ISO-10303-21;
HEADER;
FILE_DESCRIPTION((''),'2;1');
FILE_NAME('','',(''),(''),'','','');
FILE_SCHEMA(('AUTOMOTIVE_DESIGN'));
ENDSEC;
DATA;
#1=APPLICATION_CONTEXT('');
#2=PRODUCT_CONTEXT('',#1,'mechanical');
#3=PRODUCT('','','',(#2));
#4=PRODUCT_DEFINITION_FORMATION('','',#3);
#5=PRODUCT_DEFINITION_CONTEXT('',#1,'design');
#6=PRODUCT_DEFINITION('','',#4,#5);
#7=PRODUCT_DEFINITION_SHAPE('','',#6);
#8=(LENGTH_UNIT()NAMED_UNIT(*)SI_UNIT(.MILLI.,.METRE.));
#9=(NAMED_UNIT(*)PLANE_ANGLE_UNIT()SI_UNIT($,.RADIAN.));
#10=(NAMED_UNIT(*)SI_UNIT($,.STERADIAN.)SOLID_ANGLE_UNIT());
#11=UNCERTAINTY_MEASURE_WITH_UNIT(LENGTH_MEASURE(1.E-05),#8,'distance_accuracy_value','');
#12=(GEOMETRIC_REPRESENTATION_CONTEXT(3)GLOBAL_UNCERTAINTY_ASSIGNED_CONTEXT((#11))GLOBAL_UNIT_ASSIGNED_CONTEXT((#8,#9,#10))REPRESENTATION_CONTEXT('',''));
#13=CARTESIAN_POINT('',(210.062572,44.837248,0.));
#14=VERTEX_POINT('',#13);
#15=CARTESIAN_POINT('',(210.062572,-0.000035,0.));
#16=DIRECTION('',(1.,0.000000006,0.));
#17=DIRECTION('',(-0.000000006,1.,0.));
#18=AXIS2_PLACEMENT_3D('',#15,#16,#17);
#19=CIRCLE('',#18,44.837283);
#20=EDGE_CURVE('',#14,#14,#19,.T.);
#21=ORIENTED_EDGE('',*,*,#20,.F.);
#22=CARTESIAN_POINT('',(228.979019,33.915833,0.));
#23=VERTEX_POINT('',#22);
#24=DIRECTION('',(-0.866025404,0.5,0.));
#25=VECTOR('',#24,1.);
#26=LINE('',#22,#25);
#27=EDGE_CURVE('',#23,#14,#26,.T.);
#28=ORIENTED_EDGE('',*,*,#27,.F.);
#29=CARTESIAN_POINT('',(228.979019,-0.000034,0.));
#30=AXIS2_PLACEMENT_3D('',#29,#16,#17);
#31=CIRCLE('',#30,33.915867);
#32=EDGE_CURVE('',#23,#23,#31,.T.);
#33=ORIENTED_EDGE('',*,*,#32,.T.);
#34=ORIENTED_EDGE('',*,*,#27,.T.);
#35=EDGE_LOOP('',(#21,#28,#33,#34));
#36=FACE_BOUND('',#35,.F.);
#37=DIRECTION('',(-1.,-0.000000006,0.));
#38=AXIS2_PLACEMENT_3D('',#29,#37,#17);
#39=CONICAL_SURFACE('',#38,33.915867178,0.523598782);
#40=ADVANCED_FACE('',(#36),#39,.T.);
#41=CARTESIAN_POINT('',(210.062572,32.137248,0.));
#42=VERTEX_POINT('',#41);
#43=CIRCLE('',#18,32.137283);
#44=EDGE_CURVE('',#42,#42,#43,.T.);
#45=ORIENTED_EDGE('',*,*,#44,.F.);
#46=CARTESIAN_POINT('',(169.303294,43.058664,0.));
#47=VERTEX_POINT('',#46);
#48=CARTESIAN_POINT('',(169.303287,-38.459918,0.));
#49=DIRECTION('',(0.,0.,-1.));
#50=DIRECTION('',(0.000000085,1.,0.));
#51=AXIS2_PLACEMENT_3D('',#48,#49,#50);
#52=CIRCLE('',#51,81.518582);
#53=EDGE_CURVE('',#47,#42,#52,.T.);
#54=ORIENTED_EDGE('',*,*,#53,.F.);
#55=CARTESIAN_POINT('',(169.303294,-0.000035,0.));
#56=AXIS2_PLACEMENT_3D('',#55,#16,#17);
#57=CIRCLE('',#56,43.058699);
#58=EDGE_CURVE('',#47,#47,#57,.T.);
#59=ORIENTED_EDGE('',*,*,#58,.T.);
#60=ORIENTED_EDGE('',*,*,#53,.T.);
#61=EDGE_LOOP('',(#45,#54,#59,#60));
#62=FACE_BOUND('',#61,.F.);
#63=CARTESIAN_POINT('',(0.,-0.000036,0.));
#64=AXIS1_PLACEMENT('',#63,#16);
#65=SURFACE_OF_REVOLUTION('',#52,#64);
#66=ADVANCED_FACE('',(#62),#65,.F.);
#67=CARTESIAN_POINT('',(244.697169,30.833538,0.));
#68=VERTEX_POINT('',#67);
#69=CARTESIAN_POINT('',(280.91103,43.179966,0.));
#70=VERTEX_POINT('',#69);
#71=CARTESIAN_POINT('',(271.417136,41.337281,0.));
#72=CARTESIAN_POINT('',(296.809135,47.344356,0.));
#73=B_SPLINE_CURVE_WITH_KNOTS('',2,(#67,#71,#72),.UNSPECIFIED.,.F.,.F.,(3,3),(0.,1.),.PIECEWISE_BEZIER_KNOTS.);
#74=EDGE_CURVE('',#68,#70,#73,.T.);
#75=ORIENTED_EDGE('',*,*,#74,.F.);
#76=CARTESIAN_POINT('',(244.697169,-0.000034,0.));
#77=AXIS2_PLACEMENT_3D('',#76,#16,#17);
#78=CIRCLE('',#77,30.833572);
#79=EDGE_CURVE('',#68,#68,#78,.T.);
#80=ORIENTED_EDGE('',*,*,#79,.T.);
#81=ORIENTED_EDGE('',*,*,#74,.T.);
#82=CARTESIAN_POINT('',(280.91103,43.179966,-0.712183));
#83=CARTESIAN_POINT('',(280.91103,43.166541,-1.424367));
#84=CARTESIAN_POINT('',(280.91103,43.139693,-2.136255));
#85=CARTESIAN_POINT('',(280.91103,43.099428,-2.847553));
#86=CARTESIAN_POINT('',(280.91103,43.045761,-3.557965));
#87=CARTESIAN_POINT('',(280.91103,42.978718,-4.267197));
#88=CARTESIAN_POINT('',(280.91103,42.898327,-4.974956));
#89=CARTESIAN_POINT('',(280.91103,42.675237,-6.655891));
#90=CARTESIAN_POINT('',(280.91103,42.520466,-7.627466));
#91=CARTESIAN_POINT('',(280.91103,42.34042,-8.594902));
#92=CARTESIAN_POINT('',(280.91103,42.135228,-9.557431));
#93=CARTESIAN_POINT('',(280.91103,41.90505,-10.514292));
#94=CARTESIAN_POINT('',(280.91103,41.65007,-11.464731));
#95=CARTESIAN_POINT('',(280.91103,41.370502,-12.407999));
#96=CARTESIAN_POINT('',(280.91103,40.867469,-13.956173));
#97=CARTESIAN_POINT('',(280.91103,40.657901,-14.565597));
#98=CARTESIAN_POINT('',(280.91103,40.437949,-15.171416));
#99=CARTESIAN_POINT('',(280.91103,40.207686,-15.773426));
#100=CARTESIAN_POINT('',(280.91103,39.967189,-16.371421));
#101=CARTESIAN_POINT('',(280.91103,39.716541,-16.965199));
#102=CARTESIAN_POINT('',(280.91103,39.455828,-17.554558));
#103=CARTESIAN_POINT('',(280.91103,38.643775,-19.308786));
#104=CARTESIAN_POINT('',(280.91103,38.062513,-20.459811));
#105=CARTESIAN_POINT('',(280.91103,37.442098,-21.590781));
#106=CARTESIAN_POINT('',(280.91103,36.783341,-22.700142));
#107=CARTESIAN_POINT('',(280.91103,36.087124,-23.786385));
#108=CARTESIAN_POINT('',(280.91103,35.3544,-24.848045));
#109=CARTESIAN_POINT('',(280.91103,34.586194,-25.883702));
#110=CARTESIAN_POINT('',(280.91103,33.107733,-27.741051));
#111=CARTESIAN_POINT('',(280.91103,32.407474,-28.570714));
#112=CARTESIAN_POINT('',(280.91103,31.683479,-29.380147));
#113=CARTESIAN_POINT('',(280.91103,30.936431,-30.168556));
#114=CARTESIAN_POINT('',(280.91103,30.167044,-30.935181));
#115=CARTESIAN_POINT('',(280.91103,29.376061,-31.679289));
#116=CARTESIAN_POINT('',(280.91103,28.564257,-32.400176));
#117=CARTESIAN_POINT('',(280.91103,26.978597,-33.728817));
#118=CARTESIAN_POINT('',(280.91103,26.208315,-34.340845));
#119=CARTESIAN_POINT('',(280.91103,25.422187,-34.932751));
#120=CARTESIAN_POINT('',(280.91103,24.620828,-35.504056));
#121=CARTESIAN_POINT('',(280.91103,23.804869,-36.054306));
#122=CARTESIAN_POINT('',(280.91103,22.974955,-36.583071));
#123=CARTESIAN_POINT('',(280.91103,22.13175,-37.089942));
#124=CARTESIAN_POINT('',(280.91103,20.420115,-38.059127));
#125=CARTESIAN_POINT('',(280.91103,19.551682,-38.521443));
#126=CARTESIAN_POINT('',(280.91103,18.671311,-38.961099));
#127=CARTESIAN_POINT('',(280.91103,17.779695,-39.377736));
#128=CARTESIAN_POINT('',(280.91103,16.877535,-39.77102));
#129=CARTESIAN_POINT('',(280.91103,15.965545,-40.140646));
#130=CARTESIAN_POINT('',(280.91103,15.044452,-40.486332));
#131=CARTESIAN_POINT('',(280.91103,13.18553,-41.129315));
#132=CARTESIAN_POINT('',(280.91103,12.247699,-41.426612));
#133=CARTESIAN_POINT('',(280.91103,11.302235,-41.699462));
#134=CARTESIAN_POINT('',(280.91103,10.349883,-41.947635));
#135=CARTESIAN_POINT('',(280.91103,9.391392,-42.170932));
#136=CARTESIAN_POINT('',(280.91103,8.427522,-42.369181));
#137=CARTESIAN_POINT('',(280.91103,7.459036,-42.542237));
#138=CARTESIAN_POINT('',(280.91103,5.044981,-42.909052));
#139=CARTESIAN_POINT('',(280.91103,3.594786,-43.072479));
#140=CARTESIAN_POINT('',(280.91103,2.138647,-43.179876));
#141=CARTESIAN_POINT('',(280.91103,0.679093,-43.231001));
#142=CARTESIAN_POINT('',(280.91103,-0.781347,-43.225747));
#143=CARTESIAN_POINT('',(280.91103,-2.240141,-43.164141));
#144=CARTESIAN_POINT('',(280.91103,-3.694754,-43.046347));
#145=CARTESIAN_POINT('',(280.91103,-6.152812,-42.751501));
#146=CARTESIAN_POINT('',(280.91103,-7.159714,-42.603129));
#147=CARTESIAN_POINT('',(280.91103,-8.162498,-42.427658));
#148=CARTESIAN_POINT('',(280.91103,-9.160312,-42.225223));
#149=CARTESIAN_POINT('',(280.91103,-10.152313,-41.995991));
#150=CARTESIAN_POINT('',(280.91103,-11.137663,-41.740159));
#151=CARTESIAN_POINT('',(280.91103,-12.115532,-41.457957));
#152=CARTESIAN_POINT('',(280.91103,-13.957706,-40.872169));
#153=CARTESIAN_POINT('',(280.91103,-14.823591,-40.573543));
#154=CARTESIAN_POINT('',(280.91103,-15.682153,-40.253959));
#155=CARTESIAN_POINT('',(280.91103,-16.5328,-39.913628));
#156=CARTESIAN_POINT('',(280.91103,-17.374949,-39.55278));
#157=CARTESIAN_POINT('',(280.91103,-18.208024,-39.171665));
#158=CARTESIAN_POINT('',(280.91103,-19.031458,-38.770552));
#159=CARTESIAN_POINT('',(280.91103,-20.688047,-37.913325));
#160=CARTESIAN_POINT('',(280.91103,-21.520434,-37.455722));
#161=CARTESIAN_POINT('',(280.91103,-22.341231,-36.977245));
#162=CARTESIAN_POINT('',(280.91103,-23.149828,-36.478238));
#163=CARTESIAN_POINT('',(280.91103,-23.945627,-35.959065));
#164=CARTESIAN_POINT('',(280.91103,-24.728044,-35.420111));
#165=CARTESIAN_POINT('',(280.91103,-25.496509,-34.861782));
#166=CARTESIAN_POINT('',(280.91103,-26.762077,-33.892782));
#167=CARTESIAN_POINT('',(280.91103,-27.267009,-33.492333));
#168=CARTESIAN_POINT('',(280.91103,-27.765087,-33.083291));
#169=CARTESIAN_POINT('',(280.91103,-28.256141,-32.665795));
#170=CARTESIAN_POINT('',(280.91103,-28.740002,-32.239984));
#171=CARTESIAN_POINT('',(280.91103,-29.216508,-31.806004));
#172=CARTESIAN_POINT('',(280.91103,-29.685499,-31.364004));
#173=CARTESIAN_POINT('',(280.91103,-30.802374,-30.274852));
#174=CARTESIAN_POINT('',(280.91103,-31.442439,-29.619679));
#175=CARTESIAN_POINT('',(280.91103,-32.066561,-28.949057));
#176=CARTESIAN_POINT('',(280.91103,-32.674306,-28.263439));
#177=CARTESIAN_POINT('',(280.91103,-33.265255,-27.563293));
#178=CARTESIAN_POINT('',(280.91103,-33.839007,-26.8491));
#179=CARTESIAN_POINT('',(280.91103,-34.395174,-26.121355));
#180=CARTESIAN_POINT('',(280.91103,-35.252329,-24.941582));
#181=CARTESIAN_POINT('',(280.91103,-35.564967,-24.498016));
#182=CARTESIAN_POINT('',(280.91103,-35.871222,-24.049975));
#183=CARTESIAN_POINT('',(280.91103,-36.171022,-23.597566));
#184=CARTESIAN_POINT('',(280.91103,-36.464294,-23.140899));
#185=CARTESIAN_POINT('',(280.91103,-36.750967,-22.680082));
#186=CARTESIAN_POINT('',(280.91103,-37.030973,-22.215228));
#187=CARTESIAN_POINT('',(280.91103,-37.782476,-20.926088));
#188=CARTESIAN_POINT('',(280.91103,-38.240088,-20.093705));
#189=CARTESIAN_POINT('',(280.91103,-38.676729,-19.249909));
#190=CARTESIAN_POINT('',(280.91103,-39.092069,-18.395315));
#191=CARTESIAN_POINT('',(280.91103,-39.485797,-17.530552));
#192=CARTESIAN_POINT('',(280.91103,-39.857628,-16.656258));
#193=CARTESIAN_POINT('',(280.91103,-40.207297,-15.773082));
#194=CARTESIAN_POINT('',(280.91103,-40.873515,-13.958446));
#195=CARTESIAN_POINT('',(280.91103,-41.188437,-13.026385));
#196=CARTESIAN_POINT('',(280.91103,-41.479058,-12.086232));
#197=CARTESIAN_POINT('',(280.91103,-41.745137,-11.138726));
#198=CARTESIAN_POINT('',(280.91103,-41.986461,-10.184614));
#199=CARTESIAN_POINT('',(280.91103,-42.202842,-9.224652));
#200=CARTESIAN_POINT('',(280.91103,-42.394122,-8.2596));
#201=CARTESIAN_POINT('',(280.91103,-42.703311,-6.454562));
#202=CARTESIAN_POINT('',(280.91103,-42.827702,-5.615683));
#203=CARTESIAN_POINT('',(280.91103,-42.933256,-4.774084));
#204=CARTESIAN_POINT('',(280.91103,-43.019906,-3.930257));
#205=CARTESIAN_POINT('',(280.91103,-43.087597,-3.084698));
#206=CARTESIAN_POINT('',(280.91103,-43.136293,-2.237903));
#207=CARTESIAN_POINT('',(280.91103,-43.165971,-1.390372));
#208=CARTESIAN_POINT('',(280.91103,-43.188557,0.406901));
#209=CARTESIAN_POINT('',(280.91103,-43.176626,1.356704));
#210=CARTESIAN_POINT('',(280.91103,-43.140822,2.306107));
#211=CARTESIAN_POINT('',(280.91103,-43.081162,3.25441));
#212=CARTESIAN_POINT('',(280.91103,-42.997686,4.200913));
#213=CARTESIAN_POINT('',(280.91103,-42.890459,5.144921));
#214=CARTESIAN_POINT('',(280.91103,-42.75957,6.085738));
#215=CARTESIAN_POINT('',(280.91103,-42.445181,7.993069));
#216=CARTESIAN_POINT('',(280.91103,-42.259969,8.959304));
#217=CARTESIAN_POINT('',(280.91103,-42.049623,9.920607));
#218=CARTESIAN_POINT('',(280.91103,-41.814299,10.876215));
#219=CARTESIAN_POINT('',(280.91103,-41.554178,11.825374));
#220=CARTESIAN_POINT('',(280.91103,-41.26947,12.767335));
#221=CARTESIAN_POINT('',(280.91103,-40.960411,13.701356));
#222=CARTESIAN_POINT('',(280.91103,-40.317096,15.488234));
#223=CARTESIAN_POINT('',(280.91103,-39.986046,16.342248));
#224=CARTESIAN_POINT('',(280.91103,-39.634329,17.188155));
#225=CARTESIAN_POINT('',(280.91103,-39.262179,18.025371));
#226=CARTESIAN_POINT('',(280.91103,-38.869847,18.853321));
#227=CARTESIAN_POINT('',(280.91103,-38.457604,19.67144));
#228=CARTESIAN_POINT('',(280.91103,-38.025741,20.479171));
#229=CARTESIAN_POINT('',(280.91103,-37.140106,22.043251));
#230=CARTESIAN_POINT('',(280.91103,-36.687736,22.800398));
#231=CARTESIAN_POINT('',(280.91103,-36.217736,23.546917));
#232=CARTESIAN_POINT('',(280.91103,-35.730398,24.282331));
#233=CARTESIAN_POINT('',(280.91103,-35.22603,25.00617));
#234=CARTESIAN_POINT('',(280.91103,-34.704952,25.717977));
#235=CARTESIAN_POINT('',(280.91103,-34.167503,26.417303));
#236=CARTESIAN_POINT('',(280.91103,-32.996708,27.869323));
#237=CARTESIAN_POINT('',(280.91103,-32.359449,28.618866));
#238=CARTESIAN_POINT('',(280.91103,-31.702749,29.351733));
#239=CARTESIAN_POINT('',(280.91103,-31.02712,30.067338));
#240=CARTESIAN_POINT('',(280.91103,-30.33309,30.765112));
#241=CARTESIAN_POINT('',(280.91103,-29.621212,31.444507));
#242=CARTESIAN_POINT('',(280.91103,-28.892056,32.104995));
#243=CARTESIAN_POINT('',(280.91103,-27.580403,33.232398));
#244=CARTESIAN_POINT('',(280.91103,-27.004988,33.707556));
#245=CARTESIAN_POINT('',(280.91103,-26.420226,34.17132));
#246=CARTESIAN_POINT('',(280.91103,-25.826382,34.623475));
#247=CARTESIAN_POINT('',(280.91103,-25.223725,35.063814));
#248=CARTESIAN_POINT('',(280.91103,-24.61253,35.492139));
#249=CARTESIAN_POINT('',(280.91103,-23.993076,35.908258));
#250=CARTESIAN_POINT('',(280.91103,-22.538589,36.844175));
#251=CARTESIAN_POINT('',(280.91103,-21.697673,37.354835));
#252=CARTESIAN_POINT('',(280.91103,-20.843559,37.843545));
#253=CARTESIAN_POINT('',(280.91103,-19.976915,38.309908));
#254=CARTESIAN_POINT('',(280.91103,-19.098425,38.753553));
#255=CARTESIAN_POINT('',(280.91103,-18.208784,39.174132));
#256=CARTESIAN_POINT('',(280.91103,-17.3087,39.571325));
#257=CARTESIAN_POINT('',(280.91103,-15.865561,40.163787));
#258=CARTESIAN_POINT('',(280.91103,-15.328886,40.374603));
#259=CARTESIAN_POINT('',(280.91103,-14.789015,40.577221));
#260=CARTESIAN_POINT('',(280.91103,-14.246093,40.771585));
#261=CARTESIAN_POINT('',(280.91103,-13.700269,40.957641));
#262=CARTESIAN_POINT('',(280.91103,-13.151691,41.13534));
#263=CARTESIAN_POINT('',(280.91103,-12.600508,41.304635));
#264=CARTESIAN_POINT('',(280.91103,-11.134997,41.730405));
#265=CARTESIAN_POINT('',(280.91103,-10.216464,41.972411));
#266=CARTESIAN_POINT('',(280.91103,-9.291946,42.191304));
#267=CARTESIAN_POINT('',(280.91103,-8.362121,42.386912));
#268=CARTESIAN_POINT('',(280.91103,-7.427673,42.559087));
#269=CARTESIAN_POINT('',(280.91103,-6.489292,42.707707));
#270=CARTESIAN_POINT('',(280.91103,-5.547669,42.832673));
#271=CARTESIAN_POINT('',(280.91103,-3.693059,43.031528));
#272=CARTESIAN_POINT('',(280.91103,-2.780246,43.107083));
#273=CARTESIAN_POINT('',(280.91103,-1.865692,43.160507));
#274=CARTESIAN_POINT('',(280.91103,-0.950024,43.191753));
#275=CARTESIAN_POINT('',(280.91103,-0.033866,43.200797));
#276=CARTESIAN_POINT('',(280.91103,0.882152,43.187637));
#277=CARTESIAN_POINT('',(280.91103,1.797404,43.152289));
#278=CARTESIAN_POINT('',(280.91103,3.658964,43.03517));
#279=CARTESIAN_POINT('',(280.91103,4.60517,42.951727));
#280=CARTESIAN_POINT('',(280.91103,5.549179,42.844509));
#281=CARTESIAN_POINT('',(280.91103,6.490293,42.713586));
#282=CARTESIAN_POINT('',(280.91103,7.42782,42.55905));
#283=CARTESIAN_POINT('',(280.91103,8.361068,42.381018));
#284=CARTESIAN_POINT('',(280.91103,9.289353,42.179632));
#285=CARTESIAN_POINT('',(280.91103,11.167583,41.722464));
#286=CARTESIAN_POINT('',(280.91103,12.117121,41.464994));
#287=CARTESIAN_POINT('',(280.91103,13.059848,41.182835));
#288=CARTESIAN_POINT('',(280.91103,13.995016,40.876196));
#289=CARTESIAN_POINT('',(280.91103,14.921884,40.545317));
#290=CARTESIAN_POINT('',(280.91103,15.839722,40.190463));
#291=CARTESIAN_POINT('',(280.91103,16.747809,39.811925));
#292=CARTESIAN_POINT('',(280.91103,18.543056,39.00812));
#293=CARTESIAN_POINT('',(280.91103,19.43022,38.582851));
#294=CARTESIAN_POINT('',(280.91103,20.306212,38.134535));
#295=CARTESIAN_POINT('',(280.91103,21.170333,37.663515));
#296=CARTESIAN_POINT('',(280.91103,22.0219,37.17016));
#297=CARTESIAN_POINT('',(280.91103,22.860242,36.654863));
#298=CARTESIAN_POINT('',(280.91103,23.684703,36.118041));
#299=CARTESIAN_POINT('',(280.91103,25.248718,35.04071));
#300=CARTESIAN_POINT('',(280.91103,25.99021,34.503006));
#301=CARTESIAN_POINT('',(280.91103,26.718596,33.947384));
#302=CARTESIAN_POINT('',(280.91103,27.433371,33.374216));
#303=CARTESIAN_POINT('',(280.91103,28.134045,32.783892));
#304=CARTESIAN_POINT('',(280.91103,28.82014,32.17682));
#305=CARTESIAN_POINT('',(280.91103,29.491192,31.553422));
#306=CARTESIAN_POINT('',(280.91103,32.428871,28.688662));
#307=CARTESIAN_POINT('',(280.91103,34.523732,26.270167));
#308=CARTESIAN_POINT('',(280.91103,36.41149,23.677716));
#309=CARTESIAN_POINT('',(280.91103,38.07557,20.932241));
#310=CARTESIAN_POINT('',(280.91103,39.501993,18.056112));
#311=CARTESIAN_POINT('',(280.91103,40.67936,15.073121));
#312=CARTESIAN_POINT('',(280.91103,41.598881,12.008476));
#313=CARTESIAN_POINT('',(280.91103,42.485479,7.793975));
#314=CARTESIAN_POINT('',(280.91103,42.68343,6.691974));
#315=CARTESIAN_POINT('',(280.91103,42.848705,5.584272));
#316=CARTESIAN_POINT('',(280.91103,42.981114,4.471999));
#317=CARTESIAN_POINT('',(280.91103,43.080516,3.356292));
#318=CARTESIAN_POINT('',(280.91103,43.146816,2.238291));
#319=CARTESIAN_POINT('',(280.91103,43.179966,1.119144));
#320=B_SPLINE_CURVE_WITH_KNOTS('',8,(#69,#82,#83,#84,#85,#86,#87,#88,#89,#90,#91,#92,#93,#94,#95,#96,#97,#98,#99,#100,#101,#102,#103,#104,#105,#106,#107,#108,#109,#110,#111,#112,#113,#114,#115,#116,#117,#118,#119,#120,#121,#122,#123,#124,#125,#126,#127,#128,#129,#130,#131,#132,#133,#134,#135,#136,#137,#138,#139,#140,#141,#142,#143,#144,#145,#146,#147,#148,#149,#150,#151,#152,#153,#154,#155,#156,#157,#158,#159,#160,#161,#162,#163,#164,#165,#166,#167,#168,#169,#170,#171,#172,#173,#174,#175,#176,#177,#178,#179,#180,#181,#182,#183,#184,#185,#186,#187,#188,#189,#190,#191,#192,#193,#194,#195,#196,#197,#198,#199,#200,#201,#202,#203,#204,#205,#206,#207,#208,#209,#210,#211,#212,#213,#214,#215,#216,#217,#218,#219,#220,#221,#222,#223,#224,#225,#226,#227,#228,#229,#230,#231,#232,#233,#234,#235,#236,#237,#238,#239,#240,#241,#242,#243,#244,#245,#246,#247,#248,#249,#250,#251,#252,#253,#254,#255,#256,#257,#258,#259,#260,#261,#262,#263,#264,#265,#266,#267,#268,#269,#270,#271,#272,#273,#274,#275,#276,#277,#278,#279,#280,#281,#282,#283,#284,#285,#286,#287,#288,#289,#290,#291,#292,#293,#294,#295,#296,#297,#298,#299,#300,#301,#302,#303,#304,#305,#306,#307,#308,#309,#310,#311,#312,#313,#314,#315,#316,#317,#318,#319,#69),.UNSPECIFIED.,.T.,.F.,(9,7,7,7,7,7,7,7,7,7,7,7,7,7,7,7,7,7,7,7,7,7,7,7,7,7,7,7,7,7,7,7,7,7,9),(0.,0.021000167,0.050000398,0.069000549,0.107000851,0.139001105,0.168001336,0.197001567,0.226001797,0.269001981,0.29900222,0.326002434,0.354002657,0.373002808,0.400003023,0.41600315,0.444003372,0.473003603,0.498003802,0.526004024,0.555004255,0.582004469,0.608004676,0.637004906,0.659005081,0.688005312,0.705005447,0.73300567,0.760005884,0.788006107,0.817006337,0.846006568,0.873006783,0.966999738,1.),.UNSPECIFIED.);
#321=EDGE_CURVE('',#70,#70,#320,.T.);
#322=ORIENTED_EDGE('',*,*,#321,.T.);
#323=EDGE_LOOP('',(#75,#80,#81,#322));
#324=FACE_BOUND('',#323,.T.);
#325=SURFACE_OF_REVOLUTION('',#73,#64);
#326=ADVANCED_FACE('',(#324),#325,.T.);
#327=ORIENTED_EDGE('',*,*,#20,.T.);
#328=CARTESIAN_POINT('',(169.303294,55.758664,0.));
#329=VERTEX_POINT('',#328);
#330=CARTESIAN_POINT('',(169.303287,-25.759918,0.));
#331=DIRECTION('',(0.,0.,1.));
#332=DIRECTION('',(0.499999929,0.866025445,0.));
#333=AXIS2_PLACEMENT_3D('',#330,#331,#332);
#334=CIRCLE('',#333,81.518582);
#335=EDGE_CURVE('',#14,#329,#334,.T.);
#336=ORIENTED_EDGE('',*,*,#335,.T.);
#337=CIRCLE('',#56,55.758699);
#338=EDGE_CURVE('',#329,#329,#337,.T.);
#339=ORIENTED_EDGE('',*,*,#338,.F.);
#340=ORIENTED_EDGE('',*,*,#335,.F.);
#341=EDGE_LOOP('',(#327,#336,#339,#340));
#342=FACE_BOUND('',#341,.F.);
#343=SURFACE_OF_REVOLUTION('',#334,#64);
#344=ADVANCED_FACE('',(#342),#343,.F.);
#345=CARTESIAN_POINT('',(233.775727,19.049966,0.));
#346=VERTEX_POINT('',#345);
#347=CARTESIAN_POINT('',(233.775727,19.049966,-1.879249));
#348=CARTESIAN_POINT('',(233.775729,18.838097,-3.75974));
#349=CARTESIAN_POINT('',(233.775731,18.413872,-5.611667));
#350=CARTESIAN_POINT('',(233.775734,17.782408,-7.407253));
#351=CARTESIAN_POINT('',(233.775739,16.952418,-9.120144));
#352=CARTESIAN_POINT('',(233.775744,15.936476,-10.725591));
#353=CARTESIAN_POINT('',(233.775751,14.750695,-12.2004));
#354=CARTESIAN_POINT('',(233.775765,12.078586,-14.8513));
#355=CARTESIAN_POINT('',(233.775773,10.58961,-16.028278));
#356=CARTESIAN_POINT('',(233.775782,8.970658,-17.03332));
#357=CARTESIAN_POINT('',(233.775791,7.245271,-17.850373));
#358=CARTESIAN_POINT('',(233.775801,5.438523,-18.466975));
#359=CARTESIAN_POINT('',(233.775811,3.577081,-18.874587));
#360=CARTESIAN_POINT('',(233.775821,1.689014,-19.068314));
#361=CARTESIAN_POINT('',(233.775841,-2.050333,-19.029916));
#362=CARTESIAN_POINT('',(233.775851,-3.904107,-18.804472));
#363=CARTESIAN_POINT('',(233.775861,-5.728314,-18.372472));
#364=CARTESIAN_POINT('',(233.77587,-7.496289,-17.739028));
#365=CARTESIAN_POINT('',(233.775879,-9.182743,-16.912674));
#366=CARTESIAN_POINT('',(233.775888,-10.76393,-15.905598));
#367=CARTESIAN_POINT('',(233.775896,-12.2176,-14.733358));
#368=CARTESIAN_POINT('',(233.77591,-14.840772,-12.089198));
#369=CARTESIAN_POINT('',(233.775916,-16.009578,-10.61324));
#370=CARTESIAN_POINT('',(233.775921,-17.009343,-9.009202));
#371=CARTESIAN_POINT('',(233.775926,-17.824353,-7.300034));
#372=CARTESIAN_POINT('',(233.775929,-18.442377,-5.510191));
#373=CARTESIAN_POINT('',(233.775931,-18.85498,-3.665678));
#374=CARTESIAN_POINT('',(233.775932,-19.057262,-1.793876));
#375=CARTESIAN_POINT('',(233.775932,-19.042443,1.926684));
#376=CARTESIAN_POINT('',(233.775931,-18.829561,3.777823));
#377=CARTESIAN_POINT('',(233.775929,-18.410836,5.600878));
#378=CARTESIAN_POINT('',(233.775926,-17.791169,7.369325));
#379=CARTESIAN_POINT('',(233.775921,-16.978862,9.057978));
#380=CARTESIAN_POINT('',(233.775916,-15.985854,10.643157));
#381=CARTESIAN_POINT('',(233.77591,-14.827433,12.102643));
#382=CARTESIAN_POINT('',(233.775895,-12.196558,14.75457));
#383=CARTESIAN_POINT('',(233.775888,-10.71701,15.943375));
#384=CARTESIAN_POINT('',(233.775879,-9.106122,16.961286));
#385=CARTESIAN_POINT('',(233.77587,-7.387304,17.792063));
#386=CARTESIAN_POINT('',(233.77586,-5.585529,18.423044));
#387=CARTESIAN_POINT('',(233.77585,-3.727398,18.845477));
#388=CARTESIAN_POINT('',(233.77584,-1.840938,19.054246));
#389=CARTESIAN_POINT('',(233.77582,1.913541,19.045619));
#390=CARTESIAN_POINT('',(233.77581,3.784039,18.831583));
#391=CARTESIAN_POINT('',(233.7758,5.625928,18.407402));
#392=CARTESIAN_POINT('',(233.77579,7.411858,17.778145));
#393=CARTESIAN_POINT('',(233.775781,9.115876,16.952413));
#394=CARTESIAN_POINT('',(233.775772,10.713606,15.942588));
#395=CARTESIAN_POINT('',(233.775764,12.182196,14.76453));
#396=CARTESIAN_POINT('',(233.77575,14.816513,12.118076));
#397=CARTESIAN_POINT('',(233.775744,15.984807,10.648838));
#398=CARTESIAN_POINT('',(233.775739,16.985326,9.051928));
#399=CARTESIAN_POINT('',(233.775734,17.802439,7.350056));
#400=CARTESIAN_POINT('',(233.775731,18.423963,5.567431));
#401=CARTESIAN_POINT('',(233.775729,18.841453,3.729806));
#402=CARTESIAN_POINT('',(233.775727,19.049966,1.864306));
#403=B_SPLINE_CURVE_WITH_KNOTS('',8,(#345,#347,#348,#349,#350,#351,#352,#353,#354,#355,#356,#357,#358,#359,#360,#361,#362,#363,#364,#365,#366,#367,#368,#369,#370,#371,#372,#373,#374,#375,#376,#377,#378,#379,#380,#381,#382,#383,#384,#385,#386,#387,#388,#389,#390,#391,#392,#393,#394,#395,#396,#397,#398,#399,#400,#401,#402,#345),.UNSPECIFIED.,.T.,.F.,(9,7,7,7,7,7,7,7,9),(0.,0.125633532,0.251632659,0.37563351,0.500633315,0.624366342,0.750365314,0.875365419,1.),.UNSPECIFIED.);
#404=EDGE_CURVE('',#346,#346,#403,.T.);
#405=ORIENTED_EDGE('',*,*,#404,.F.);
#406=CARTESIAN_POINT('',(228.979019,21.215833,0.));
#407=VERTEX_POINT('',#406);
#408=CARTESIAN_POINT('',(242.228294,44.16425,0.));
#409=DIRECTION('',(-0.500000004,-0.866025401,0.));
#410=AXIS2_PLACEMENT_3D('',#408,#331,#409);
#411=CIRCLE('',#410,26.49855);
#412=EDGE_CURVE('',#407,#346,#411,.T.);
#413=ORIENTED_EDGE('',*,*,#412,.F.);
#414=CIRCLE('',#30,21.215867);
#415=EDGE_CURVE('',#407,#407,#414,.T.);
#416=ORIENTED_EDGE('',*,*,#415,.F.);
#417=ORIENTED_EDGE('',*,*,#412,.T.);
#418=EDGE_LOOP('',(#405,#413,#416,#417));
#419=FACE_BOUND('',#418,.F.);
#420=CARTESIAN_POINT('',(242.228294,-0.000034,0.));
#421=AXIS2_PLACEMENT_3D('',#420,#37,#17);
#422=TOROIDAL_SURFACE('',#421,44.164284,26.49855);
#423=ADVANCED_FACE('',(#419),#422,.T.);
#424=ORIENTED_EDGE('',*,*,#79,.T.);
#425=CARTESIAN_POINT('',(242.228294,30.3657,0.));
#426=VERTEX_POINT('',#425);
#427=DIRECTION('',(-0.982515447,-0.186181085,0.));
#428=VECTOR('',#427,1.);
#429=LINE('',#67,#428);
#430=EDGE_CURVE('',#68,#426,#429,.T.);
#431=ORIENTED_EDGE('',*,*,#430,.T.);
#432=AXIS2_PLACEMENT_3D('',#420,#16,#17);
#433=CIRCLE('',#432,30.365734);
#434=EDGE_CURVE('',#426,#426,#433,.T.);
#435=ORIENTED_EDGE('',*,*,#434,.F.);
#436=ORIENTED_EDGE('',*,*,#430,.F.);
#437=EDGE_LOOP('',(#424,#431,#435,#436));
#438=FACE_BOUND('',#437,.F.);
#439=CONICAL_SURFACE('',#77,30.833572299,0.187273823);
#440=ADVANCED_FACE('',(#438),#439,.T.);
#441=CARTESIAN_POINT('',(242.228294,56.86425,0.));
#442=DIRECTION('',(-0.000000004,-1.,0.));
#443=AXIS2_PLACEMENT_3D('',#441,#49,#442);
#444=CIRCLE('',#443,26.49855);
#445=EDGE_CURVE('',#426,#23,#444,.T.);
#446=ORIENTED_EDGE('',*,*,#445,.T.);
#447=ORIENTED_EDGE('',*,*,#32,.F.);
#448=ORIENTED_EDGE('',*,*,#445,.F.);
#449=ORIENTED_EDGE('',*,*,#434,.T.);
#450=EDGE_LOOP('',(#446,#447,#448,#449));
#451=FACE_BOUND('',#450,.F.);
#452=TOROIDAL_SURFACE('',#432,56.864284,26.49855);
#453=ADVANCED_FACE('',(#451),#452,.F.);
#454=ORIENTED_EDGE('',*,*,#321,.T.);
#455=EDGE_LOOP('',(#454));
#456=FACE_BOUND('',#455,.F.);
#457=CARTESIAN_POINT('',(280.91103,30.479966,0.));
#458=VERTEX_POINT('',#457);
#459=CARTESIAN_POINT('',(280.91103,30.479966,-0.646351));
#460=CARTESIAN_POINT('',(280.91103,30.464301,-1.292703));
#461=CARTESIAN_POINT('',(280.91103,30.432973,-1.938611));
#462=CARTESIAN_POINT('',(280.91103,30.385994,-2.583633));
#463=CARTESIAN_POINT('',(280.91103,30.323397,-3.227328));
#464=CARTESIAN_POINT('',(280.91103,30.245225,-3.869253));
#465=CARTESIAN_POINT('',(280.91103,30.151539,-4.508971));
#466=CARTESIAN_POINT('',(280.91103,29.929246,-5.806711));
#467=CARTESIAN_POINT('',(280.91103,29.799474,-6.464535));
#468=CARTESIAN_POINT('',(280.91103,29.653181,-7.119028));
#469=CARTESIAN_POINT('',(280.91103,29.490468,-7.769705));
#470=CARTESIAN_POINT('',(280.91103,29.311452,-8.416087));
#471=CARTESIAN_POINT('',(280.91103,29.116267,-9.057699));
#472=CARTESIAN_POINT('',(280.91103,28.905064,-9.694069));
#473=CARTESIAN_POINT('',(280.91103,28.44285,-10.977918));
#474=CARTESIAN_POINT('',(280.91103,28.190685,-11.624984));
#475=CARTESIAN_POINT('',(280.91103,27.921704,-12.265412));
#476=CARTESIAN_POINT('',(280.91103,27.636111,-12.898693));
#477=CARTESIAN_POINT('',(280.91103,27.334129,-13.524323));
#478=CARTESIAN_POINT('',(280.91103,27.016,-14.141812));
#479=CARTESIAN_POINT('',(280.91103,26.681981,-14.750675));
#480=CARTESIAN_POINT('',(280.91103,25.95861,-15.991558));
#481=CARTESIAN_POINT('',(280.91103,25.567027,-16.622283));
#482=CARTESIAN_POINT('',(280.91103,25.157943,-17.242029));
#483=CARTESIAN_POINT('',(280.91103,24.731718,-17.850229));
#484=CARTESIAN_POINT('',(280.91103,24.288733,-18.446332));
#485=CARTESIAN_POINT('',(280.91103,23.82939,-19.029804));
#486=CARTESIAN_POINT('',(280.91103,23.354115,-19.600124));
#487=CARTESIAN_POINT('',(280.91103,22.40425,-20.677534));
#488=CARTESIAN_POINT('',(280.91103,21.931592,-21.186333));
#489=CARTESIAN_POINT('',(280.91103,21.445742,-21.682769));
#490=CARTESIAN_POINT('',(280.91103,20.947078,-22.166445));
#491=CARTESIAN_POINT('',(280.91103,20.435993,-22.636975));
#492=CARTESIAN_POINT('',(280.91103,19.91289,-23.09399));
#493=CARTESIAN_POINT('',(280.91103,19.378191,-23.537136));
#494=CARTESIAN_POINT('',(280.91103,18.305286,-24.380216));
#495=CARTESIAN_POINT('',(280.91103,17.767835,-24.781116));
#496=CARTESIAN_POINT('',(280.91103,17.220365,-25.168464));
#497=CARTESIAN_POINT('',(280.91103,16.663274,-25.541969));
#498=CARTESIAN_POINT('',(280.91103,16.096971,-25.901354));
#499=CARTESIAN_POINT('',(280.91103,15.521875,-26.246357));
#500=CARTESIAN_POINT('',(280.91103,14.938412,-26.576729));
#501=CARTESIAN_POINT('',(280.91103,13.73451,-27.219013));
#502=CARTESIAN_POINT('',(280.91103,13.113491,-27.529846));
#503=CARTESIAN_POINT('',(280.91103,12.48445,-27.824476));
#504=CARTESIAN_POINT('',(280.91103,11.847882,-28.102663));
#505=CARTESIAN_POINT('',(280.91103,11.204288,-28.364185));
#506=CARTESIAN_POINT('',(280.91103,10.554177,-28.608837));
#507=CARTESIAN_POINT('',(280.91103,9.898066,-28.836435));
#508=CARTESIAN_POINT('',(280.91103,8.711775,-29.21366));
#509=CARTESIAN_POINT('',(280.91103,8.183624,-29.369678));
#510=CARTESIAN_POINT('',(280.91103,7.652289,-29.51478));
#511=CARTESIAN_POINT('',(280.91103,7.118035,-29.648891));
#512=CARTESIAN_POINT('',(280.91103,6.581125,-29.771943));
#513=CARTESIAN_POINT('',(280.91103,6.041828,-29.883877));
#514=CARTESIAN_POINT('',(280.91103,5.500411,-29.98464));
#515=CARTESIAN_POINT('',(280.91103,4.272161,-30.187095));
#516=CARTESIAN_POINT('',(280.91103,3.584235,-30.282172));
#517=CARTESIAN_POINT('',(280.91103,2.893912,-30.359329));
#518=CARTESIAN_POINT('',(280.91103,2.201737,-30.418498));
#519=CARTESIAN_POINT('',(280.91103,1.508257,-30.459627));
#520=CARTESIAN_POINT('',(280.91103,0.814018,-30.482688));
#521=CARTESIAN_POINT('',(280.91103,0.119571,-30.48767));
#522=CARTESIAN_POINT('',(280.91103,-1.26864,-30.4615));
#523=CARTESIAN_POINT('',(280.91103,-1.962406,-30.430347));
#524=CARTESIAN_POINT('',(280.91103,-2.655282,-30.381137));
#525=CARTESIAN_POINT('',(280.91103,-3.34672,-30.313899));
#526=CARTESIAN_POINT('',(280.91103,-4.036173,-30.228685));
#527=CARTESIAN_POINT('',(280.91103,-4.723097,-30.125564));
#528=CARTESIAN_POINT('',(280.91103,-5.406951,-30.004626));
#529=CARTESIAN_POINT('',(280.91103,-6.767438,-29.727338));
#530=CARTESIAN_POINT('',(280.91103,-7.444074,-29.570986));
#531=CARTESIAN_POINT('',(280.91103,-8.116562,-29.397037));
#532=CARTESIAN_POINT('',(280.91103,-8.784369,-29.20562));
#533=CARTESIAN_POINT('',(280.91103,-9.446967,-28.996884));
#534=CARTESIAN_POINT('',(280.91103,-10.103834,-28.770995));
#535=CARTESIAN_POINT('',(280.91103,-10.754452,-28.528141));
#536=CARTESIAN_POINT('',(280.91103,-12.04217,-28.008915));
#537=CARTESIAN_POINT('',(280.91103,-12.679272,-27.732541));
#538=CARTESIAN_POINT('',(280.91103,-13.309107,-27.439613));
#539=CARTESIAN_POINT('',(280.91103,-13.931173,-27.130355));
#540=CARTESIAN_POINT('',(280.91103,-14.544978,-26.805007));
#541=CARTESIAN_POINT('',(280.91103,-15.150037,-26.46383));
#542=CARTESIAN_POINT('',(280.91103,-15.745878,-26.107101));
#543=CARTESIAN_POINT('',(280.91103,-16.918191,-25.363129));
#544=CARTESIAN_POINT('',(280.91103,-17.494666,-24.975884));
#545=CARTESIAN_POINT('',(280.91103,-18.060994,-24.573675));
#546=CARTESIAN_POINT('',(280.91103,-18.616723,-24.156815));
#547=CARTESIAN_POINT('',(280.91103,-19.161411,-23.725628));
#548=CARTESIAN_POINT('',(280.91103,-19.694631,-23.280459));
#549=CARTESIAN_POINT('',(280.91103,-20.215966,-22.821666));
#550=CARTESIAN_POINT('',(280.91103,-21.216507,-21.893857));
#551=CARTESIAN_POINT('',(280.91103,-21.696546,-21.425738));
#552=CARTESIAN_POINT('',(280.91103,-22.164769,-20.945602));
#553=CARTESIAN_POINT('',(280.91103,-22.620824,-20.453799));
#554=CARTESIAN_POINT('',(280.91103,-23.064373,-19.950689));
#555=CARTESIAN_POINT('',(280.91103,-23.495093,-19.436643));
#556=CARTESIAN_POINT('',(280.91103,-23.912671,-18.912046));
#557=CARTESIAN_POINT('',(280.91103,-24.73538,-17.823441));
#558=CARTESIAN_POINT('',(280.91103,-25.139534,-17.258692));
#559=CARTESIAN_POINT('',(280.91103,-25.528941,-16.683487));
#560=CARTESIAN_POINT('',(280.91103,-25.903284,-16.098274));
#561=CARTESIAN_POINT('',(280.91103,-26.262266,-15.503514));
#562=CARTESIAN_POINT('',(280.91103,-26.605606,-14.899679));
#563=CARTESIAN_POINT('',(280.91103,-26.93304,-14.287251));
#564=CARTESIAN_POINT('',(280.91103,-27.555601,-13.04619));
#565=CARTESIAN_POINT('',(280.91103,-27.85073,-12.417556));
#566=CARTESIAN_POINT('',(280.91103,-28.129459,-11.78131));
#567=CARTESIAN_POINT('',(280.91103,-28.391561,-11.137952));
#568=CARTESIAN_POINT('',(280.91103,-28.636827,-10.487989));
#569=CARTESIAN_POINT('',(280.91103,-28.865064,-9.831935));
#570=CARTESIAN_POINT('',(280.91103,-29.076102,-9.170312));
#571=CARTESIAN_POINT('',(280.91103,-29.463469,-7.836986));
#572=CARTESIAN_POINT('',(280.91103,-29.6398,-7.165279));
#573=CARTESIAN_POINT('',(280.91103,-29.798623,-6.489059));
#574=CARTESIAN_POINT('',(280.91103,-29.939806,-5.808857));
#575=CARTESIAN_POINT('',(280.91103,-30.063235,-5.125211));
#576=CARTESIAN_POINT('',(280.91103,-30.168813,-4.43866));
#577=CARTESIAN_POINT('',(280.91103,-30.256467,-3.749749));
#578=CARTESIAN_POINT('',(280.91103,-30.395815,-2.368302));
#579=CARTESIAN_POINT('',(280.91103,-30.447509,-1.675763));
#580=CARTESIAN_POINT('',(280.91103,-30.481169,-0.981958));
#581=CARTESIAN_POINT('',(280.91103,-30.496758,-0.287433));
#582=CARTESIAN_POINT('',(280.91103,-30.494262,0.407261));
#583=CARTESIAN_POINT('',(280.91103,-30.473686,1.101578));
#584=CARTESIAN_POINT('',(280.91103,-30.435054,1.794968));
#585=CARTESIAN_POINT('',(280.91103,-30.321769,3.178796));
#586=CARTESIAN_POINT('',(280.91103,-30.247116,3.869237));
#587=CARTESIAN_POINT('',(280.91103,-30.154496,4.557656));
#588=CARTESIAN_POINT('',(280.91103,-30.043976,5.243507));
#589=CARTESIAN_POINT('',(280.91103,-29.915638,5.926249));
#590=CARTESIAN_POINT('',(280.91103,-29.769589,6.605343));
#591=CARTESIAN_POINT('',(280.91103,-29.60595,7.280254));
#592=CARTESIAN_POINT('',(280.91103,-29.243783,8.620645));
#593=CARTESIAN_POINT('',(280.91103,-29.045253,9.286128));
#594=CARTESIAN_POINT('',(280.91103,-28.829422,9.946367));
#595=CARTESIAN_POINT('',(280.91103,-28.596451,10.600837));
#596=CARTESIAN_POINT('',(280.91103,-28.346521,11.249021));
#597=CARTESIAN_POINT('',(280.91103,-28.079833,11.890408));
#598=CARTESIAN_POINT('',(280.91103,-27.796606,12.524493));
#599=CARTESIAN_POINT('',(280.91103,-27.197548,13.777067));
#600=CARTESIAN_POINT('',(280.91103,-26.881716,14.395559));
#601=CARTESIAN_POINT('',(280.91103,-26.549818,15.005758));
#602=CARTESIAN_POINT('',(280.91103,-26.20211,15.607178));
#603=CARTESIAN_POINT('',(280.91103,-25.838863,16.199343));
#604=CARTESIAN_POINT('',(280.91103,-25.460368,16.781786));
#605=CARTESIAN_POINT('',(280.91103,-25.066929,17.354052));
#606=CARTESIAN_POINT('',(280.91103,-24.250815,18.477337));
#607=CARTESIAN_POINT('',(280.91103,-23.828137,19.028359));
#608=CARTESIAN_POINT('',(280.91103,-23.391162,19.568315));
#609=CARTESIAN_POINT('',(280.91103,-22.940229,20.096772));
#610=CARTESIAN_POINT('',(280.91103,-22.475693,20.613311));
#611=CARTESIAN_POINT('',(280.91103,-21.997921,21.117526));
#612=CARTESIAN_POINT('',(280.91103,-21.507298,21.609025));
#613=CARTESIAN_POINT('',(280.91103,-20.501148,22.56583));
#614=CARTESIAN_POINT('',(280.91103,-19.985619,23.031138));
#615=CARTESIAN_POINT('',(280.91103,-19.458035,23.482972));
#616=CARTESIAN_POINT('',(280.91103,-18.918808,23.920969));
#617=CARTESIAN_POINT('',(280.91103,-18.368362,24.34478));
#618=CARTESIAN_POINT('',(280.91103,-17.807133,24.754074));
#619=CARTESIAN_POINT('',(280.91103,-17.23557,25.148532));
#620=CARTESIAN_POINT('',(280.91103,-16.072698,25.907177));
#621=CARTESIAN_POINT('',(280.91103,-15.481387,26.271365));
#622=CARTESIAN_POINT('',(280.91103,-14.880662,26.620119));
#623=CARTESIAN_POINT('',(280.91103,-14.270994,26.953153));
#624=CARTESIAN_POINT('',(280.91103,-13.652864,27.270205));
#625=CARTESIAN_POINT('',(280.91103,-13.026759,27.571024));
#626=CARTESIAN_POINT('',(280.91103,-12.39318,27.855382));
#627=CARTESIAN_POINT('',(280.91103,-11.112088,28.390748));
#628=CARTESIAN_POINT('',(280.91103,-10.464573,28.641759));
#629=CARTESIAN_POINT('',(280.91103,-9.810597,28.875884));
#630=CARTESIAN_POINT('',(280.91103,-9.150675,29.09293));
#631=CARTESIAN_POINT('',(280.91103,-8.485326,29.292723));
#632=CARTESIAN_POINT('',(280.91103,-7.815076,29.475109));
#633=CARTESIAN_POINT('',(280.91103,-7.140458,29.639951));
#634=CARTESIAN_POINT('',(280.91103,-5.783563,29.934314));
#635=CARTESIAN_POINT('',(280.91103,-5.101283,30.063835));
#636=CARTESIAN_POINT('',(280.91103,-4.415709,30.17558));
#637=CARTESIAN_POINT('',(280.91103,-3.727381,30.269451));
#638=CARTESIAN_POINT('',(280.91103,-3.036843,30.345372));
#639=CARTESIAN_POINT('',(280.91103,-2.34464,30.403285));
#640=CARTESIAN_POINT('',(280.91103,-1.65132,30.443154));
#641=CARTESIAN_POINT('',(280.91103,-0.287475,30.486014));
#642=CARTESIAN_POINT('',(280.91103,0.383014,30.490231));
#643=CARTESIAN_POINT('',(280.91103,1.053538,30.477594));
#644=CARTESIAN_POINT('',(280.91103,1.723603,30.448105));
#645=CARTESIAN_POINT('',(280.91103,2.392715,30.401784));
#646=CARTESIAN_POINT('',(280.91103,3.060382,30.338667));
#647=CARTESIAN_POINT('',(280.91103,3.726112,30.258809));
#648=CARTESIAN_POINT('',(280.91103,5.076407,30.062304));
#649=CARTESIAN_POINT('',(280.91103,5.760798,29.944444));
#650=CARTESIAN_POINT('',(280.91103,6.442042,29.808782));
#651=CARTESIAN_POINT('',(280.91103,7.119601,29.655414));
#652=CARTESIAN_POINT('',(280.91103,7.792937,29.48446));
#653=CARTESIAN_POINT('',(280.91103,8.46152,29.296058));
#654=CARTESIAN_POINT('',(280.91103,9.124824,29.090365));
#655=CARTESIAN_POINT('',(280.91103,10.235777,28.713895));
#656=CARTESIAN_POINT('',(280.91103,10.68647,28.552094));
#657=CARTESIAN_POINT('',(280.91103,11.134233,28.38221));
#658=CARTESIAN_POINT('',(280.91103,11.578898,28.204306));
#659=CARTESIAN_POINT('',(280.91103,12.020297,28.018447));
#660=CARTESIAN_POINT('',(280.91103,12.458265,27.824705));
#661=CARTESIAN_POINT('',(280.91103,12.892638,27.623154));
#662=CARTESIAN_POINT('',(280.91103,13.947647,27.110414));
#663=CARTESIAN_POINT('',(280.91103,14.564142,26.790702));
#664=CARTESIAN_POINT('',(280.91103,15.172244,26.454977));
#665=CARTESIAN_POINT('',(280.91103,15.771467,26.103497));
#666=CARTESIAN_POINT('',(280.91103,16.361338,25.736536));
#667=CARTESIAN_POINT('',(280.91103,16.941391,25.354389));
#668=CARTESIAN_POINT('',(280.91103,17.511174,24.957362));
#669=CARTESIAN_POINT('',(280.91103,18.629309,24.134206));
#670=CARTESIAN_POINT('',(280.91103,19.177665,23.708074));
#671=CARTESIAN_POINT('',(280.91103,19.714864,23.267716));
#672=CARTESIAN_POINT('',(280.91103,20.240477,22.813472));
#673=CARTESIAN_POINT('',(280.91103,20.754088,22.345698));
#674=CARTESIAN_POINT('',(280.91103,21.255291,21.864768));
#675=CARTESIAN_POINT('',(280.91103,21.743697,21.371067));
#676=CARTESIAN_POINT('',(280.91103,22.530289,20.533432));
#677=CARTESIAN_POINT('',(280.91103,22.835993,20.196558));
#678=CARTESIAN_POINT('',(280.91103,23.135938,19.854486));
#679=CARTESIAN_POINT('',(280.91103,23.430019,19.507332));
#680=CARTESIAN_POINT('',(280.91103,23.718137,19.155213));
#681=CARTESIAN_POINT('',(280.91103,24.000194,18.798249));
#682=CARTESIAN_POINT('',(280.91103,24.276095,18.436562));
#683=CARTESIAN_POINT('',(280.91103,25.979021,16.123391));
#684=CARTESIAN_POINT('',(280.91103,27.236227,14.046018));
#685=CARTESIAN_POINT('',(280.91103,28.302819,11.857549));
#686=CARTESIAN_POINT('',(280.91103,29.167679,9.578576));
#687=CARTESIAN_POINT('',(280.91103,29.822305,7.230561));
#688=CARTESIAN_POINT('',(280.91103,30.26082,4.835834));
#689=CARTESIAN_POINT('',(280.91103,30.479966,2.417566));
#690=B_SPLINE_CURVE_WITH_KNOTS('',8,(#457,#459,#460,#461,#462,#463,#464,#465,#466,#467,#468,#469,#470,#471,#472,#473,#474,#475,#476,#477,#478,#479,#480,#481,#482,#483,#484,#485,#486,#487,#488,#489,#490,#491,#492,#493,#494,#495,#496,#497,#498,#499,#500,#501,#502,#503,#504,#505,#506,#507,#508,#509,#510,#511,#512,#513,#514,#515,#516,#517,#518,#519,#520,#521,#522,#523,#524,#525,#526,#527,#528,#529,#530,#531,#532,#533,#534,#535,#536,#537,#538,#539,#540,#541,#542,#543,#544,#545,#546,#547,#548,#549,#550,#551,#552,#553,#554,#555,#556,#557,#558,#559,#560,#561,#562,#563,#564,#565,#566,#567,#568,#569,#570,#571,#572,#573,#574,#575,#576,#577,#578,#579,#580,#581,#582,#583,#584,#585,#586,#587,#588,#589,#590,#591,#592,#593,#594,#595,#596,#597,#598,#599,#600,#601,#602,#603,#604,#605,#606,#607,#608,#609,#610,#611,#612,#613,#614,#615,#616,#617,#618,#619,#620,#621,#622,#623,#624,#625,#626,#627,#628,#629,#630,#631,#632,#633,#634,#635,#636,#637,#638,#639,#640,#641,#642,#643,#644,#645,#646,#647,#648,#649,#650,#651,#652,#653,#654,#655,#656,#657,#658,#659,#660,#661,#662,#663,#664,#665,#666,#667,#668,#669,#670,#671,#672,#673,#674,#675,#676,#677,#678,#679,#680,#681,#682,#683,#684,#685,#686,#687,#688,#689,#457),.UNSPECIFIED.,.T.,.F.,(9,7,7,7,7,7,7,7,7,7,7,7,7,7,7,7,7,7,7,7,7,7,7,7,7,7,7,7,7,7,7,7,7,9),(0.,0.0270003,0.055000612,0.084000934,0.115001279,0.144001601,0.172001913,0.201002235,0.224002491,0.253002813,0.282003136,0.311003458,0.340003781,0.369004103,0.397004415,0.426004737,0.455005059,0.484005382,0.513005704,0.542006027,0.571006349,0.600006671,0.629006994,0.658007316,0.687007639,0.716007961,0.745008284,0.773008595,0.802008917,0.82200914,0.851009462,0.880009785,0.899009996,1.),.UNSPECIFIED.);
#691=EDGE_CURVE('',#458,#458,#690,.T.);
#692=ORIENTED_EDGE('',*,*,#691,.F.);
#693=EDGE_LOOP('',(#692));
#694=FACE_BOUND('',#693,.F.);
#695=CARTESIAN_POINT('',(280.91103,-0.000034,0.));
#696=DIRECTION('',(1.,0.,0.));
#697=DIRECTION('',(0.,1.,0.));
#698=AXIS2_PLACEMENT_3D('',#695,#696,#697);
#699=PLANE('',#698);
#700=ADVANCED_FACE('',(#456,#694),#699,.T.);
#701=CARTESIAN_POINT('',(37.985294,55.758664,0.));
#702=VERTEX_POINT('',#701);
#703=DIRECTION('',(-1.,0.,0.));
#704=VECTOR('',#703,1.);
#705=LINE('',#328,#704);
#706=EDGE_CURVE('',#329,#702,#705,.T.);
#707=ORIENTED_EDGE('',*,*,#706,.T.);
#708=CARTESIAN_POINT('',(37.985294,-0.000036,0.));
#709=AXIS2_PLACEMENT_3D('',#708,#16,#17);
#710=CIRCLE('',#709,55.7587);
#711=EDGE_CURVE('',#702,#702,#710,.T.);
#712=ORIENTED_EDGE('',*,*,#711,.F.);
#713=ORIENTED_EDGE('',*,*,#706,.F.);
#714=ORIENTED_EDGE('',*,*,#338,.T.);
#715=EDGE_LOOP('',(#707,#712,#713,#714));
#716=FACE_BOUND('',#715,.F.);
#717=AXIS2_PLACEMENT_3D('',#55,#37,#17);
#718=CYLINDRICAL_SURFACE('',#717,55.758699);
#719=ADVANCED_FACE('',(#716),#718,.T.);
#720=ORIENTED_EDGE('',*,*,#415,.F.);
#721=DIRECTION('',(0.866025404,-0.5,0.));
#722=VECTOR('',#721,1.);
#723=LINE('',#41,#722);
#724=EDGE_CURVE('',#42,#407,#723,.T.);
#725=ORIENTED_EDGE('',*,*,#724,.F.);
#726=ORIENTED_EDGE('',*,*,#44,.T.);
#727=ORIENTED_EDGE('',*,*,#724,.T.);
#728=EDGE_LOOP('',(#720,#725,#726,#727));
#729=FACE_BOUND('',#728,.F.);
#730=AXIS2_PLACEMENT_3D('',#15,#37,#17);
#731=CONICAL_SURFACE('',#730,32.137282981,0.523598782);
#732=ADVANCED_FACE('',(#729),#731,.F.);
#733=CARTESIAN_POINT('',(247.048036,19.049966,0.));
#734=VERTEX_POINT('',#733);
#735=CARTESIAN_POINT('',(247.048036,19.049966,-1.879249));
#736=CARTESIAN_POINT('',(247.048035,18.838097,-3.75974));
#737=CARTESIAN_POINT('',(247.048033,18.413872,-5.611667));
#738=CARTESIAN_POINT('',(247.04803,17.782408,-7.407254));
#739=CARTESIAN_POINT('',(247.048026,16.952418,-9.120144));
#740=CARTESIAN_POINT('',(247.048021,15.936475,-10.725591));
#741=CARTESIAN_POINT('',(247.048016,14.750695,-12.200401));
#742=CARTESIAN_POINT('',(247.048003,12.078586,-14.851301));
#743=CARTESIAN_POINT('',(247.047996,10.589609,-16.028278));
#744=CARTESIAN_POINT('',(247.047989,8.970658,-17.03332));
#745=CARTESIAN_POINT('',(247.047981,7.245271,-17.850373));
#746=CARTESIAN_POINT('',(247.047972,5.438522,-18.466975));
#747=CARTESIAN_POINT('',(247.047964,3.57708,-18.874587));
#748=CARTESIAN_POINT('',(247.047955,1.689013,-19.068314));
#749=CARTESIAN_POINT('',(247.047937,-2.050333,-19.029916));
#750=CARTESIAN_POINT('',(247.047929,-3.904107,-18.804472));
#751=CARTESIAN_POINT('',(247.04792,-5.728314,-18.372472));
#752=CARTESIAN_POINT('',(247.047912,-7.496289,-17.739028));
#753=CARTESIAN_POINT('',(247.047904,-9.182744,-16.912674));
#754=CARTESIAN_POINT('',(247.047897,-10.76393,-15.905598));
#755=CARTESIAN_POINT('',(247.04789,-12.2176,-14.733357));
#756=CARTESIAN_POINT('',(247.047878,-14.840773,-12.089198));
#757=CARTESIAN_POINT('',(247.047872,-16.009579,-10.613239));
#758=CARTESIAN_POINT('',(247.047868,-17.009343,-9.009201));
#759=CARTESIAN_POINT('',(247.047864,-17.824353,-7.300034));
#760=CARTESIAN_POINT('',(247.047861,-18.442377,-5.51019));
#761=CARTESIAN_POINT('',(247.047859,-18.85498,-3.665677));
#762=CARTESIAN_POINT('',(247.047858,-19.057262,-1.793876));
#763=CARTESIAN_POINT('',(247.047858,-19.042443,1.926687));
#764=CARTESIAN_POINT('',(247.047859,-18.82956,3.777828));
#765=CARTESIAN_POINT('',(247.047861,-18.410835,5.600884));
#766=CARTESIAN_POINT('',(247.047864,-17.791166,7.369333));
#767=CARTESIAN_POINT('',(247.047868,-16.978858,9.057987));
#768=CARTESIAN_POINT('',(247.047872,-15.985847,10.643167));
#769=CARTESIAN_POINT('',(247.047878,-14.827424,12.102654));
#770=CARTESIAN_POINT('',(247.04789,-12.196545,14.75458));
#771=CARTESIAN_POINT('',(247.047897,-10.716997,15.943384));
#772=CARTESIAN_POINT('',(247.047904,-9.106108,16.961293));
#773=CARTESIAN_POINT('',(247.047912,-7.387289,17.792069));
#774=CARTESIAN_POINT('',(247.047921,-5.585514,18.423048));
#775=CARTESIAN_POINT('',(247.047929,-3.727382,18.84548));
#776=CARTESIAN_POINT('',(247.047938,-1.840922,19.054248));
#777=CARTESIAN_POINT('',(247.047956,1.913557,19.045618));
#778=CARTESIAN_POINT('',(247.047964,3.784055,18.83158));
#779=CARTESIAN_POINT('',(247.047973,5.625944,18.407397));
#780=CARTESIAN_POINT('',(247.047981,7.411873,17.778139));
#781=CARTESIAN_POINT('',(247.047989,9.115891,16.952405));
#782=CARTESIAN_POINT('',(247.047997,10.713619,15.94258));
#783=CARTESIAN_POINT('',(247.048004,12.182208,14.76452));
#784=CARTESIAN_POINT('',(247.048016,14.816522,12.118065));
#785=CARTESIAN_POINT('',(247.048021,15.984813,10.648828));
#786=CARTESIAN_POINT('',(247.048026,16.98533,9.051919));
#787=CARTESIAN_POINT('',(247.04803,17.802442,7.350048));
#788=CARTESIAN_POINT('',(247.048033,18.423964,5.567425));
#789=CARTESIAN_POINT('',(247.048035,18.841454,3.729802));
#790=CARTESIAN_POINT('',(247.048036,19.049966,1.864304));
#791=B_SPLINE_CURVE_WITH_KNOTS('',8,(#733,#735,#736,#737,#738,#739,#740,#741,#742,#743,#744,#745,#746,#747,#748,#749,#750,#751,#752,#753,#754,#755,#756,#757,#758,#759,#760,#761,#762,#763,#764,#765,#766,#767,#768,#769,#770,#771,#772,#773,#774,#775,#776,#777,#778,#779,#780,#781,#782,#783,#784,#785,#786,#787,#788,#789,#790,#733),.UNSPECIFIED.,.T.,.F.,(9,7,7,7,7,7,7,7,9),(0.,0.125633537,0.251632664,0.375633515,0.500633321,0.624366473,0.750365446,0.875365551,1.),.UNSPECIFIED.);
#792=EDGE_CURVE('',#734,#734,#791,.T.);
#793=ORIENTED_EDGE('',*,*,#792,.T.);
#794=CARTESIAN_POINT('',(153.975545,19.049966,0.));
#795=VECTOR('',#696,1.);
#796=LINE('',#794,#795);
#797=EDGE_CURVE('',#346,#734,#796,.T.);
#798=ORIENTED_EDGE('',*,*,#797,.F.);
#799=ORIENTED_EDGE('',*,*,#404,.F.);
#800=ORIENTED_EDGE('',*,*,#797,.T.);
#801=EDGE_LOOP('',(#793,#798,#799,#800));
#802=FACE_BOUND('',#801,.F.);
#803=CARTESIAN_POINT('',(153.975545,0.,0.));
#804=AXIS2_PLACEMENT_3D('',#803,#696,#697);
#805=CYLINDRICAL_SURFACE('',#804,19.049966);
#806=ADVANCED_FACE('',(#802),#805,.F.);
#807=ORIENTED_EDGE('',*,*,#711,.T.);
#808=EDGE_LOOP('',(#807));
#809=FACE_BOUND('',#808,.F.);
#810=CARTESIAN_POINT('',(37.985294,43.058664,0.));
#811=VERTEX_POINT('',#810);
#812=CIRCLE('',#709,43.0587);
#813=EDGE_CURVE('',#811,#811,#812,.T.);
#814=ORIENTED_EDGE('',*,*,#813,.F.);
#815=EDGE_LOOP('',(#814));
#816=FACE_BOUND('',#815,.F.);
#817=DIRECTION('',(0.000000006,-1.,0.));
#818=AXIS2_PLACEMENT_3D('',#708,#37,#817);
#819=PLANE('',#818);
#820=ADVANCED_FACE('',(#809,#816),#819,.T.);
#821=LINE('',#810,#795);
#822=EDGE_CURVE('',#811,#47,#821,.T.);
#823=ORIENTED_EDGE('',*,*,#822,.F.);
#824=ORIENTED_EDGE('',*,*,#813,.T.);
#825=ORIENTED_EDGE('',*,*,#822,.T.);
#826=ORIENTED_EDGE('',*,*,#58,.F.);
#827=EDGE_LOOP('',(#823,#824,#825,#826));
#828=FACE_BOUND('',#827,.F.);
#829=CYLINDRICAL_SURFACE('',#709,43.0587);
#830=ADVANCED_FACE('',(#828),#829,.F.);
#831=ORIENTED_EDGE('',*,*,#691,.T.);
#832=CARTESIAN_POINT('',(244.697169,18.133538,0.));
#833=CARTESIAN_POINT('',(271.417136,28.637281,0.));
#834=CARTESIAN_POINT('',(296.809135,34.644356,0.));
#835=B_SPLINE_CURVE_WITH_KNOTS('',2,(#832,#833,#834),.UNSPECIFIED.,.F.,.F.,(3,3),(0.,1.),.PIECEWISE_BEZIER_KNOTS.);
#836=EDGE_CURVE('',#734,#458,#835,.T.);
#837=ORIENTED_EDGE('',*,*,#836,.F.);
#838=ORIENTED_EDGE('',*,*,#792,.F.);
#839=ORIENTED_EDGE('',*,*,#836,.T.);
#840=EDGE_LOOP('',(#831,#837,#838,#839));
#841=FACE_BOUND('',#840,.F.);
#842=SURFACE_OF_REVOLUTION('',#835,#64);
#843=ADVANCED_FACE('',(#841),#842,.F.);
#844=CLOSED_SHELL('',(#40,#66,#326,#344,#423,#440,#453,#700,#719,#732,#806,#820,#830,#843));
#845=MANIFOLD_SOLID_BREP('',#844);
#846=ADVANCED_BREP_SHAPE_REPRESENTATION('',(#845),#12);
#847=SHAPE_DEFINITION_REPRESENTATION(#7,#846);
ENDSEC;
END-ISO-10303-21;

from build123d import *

# Parameters (mm, degrees)
SKETCH1_W = 37.875561449
SKETCH1_H = 61.587456953
SKETCH2_W = 307.951090162
SKETCH2_H = 19.0499659


with BuildPart() as part:
    # Model → Revolve2 (revolve)
    with BuildSketch(Plane.XY):
        with BuildLine():
            Line((37.9852936, 43.0586642), (169.3032936, 43.0586642))
            ThreePointArc((169.3032936, 43.0586642), (190.401848402, 40.280985836), (210.062572, 32.1372484))
            Line((210.062572, 32.1372484), (228.979018864, 21.215832711))
            ThreePointArc((228.979018864, 21.215832711), (235.369964452, 18.568616337), (242.228293864, 17.665700111))
            ThreePointArc((242.228293864, 17.665700111), (243.484699194, 17.783691074), (244.697169154, 18.133537926))
            add(Edge.make_bspline(
                [(244.697169154, 18.133537926), (271.417135664, 28.637280911), (296.809134664, 34.644355511)],
                knots=[0, 0, 0, 1, 1, 1], degree=2))
            Line((296.809134664, 34.644355511), (297.879592264, 34.897593511))
            Line((297.879592264, 34.897593511), (296.809134664, 47.344355511))
            add(Edge.make_bspline(
                [(244.697169154, 30.833537926), (271.417135664, 41.337280911), (296.809134664, 47.344355511)],
                knots=[0, 0, 0, 1, 1, 1], degree=2))
            Line((244.697169154, 30.833537926), (242.228293864, 30.365700111))
            ThreePointArc((242.228293864, 30.365700111), (235.369964452, 31.268616337), (228.979018864, 33.915832711))
            Line((228.979018864, 33.915832711), (210.062572, 44.8372484))
            ThreePointArc((210.062572, 44.8372484), (190.401848402, 52.980985836), (169.3032936, 55.7586642))
            Line((169.3032936, 55.7586642), (37.9852936, 55.7586642))
            Line((37.9852936, 55.7586642), (37.9852936, 43.0586642))
        make_face()
    revolve(axis=Axis((0, -3.5841e-05, 0), (1, 6e-09, 0)))

    # Sketch1 → Cut-Revolve1 (revolve, cut)
    with BuildSketch(Plane.XY):
        with Locations((299.848811079, 30.793694284)):
            Rectangle(SKETCH1_W, SKETCH1_H)
    revolve(axis=Axis((280.911030354, -3.4193e-05, 0), (1, 0, 0)), mode=Mode.SUBTRACT)

    # Sketch2 → Cut-Revolve2 (revolve, cut)
    with BuildSketch(Plane.XY):
        with Locations((153.975545081, 9.52498295)):
            Rectangle(SKETCH2_W, SKETCH2_H)
    revolve(axis=Axis((0, 0, 0), (1, 0, 0)), mode=Mode.SUBTRACT)


solid = part.part
